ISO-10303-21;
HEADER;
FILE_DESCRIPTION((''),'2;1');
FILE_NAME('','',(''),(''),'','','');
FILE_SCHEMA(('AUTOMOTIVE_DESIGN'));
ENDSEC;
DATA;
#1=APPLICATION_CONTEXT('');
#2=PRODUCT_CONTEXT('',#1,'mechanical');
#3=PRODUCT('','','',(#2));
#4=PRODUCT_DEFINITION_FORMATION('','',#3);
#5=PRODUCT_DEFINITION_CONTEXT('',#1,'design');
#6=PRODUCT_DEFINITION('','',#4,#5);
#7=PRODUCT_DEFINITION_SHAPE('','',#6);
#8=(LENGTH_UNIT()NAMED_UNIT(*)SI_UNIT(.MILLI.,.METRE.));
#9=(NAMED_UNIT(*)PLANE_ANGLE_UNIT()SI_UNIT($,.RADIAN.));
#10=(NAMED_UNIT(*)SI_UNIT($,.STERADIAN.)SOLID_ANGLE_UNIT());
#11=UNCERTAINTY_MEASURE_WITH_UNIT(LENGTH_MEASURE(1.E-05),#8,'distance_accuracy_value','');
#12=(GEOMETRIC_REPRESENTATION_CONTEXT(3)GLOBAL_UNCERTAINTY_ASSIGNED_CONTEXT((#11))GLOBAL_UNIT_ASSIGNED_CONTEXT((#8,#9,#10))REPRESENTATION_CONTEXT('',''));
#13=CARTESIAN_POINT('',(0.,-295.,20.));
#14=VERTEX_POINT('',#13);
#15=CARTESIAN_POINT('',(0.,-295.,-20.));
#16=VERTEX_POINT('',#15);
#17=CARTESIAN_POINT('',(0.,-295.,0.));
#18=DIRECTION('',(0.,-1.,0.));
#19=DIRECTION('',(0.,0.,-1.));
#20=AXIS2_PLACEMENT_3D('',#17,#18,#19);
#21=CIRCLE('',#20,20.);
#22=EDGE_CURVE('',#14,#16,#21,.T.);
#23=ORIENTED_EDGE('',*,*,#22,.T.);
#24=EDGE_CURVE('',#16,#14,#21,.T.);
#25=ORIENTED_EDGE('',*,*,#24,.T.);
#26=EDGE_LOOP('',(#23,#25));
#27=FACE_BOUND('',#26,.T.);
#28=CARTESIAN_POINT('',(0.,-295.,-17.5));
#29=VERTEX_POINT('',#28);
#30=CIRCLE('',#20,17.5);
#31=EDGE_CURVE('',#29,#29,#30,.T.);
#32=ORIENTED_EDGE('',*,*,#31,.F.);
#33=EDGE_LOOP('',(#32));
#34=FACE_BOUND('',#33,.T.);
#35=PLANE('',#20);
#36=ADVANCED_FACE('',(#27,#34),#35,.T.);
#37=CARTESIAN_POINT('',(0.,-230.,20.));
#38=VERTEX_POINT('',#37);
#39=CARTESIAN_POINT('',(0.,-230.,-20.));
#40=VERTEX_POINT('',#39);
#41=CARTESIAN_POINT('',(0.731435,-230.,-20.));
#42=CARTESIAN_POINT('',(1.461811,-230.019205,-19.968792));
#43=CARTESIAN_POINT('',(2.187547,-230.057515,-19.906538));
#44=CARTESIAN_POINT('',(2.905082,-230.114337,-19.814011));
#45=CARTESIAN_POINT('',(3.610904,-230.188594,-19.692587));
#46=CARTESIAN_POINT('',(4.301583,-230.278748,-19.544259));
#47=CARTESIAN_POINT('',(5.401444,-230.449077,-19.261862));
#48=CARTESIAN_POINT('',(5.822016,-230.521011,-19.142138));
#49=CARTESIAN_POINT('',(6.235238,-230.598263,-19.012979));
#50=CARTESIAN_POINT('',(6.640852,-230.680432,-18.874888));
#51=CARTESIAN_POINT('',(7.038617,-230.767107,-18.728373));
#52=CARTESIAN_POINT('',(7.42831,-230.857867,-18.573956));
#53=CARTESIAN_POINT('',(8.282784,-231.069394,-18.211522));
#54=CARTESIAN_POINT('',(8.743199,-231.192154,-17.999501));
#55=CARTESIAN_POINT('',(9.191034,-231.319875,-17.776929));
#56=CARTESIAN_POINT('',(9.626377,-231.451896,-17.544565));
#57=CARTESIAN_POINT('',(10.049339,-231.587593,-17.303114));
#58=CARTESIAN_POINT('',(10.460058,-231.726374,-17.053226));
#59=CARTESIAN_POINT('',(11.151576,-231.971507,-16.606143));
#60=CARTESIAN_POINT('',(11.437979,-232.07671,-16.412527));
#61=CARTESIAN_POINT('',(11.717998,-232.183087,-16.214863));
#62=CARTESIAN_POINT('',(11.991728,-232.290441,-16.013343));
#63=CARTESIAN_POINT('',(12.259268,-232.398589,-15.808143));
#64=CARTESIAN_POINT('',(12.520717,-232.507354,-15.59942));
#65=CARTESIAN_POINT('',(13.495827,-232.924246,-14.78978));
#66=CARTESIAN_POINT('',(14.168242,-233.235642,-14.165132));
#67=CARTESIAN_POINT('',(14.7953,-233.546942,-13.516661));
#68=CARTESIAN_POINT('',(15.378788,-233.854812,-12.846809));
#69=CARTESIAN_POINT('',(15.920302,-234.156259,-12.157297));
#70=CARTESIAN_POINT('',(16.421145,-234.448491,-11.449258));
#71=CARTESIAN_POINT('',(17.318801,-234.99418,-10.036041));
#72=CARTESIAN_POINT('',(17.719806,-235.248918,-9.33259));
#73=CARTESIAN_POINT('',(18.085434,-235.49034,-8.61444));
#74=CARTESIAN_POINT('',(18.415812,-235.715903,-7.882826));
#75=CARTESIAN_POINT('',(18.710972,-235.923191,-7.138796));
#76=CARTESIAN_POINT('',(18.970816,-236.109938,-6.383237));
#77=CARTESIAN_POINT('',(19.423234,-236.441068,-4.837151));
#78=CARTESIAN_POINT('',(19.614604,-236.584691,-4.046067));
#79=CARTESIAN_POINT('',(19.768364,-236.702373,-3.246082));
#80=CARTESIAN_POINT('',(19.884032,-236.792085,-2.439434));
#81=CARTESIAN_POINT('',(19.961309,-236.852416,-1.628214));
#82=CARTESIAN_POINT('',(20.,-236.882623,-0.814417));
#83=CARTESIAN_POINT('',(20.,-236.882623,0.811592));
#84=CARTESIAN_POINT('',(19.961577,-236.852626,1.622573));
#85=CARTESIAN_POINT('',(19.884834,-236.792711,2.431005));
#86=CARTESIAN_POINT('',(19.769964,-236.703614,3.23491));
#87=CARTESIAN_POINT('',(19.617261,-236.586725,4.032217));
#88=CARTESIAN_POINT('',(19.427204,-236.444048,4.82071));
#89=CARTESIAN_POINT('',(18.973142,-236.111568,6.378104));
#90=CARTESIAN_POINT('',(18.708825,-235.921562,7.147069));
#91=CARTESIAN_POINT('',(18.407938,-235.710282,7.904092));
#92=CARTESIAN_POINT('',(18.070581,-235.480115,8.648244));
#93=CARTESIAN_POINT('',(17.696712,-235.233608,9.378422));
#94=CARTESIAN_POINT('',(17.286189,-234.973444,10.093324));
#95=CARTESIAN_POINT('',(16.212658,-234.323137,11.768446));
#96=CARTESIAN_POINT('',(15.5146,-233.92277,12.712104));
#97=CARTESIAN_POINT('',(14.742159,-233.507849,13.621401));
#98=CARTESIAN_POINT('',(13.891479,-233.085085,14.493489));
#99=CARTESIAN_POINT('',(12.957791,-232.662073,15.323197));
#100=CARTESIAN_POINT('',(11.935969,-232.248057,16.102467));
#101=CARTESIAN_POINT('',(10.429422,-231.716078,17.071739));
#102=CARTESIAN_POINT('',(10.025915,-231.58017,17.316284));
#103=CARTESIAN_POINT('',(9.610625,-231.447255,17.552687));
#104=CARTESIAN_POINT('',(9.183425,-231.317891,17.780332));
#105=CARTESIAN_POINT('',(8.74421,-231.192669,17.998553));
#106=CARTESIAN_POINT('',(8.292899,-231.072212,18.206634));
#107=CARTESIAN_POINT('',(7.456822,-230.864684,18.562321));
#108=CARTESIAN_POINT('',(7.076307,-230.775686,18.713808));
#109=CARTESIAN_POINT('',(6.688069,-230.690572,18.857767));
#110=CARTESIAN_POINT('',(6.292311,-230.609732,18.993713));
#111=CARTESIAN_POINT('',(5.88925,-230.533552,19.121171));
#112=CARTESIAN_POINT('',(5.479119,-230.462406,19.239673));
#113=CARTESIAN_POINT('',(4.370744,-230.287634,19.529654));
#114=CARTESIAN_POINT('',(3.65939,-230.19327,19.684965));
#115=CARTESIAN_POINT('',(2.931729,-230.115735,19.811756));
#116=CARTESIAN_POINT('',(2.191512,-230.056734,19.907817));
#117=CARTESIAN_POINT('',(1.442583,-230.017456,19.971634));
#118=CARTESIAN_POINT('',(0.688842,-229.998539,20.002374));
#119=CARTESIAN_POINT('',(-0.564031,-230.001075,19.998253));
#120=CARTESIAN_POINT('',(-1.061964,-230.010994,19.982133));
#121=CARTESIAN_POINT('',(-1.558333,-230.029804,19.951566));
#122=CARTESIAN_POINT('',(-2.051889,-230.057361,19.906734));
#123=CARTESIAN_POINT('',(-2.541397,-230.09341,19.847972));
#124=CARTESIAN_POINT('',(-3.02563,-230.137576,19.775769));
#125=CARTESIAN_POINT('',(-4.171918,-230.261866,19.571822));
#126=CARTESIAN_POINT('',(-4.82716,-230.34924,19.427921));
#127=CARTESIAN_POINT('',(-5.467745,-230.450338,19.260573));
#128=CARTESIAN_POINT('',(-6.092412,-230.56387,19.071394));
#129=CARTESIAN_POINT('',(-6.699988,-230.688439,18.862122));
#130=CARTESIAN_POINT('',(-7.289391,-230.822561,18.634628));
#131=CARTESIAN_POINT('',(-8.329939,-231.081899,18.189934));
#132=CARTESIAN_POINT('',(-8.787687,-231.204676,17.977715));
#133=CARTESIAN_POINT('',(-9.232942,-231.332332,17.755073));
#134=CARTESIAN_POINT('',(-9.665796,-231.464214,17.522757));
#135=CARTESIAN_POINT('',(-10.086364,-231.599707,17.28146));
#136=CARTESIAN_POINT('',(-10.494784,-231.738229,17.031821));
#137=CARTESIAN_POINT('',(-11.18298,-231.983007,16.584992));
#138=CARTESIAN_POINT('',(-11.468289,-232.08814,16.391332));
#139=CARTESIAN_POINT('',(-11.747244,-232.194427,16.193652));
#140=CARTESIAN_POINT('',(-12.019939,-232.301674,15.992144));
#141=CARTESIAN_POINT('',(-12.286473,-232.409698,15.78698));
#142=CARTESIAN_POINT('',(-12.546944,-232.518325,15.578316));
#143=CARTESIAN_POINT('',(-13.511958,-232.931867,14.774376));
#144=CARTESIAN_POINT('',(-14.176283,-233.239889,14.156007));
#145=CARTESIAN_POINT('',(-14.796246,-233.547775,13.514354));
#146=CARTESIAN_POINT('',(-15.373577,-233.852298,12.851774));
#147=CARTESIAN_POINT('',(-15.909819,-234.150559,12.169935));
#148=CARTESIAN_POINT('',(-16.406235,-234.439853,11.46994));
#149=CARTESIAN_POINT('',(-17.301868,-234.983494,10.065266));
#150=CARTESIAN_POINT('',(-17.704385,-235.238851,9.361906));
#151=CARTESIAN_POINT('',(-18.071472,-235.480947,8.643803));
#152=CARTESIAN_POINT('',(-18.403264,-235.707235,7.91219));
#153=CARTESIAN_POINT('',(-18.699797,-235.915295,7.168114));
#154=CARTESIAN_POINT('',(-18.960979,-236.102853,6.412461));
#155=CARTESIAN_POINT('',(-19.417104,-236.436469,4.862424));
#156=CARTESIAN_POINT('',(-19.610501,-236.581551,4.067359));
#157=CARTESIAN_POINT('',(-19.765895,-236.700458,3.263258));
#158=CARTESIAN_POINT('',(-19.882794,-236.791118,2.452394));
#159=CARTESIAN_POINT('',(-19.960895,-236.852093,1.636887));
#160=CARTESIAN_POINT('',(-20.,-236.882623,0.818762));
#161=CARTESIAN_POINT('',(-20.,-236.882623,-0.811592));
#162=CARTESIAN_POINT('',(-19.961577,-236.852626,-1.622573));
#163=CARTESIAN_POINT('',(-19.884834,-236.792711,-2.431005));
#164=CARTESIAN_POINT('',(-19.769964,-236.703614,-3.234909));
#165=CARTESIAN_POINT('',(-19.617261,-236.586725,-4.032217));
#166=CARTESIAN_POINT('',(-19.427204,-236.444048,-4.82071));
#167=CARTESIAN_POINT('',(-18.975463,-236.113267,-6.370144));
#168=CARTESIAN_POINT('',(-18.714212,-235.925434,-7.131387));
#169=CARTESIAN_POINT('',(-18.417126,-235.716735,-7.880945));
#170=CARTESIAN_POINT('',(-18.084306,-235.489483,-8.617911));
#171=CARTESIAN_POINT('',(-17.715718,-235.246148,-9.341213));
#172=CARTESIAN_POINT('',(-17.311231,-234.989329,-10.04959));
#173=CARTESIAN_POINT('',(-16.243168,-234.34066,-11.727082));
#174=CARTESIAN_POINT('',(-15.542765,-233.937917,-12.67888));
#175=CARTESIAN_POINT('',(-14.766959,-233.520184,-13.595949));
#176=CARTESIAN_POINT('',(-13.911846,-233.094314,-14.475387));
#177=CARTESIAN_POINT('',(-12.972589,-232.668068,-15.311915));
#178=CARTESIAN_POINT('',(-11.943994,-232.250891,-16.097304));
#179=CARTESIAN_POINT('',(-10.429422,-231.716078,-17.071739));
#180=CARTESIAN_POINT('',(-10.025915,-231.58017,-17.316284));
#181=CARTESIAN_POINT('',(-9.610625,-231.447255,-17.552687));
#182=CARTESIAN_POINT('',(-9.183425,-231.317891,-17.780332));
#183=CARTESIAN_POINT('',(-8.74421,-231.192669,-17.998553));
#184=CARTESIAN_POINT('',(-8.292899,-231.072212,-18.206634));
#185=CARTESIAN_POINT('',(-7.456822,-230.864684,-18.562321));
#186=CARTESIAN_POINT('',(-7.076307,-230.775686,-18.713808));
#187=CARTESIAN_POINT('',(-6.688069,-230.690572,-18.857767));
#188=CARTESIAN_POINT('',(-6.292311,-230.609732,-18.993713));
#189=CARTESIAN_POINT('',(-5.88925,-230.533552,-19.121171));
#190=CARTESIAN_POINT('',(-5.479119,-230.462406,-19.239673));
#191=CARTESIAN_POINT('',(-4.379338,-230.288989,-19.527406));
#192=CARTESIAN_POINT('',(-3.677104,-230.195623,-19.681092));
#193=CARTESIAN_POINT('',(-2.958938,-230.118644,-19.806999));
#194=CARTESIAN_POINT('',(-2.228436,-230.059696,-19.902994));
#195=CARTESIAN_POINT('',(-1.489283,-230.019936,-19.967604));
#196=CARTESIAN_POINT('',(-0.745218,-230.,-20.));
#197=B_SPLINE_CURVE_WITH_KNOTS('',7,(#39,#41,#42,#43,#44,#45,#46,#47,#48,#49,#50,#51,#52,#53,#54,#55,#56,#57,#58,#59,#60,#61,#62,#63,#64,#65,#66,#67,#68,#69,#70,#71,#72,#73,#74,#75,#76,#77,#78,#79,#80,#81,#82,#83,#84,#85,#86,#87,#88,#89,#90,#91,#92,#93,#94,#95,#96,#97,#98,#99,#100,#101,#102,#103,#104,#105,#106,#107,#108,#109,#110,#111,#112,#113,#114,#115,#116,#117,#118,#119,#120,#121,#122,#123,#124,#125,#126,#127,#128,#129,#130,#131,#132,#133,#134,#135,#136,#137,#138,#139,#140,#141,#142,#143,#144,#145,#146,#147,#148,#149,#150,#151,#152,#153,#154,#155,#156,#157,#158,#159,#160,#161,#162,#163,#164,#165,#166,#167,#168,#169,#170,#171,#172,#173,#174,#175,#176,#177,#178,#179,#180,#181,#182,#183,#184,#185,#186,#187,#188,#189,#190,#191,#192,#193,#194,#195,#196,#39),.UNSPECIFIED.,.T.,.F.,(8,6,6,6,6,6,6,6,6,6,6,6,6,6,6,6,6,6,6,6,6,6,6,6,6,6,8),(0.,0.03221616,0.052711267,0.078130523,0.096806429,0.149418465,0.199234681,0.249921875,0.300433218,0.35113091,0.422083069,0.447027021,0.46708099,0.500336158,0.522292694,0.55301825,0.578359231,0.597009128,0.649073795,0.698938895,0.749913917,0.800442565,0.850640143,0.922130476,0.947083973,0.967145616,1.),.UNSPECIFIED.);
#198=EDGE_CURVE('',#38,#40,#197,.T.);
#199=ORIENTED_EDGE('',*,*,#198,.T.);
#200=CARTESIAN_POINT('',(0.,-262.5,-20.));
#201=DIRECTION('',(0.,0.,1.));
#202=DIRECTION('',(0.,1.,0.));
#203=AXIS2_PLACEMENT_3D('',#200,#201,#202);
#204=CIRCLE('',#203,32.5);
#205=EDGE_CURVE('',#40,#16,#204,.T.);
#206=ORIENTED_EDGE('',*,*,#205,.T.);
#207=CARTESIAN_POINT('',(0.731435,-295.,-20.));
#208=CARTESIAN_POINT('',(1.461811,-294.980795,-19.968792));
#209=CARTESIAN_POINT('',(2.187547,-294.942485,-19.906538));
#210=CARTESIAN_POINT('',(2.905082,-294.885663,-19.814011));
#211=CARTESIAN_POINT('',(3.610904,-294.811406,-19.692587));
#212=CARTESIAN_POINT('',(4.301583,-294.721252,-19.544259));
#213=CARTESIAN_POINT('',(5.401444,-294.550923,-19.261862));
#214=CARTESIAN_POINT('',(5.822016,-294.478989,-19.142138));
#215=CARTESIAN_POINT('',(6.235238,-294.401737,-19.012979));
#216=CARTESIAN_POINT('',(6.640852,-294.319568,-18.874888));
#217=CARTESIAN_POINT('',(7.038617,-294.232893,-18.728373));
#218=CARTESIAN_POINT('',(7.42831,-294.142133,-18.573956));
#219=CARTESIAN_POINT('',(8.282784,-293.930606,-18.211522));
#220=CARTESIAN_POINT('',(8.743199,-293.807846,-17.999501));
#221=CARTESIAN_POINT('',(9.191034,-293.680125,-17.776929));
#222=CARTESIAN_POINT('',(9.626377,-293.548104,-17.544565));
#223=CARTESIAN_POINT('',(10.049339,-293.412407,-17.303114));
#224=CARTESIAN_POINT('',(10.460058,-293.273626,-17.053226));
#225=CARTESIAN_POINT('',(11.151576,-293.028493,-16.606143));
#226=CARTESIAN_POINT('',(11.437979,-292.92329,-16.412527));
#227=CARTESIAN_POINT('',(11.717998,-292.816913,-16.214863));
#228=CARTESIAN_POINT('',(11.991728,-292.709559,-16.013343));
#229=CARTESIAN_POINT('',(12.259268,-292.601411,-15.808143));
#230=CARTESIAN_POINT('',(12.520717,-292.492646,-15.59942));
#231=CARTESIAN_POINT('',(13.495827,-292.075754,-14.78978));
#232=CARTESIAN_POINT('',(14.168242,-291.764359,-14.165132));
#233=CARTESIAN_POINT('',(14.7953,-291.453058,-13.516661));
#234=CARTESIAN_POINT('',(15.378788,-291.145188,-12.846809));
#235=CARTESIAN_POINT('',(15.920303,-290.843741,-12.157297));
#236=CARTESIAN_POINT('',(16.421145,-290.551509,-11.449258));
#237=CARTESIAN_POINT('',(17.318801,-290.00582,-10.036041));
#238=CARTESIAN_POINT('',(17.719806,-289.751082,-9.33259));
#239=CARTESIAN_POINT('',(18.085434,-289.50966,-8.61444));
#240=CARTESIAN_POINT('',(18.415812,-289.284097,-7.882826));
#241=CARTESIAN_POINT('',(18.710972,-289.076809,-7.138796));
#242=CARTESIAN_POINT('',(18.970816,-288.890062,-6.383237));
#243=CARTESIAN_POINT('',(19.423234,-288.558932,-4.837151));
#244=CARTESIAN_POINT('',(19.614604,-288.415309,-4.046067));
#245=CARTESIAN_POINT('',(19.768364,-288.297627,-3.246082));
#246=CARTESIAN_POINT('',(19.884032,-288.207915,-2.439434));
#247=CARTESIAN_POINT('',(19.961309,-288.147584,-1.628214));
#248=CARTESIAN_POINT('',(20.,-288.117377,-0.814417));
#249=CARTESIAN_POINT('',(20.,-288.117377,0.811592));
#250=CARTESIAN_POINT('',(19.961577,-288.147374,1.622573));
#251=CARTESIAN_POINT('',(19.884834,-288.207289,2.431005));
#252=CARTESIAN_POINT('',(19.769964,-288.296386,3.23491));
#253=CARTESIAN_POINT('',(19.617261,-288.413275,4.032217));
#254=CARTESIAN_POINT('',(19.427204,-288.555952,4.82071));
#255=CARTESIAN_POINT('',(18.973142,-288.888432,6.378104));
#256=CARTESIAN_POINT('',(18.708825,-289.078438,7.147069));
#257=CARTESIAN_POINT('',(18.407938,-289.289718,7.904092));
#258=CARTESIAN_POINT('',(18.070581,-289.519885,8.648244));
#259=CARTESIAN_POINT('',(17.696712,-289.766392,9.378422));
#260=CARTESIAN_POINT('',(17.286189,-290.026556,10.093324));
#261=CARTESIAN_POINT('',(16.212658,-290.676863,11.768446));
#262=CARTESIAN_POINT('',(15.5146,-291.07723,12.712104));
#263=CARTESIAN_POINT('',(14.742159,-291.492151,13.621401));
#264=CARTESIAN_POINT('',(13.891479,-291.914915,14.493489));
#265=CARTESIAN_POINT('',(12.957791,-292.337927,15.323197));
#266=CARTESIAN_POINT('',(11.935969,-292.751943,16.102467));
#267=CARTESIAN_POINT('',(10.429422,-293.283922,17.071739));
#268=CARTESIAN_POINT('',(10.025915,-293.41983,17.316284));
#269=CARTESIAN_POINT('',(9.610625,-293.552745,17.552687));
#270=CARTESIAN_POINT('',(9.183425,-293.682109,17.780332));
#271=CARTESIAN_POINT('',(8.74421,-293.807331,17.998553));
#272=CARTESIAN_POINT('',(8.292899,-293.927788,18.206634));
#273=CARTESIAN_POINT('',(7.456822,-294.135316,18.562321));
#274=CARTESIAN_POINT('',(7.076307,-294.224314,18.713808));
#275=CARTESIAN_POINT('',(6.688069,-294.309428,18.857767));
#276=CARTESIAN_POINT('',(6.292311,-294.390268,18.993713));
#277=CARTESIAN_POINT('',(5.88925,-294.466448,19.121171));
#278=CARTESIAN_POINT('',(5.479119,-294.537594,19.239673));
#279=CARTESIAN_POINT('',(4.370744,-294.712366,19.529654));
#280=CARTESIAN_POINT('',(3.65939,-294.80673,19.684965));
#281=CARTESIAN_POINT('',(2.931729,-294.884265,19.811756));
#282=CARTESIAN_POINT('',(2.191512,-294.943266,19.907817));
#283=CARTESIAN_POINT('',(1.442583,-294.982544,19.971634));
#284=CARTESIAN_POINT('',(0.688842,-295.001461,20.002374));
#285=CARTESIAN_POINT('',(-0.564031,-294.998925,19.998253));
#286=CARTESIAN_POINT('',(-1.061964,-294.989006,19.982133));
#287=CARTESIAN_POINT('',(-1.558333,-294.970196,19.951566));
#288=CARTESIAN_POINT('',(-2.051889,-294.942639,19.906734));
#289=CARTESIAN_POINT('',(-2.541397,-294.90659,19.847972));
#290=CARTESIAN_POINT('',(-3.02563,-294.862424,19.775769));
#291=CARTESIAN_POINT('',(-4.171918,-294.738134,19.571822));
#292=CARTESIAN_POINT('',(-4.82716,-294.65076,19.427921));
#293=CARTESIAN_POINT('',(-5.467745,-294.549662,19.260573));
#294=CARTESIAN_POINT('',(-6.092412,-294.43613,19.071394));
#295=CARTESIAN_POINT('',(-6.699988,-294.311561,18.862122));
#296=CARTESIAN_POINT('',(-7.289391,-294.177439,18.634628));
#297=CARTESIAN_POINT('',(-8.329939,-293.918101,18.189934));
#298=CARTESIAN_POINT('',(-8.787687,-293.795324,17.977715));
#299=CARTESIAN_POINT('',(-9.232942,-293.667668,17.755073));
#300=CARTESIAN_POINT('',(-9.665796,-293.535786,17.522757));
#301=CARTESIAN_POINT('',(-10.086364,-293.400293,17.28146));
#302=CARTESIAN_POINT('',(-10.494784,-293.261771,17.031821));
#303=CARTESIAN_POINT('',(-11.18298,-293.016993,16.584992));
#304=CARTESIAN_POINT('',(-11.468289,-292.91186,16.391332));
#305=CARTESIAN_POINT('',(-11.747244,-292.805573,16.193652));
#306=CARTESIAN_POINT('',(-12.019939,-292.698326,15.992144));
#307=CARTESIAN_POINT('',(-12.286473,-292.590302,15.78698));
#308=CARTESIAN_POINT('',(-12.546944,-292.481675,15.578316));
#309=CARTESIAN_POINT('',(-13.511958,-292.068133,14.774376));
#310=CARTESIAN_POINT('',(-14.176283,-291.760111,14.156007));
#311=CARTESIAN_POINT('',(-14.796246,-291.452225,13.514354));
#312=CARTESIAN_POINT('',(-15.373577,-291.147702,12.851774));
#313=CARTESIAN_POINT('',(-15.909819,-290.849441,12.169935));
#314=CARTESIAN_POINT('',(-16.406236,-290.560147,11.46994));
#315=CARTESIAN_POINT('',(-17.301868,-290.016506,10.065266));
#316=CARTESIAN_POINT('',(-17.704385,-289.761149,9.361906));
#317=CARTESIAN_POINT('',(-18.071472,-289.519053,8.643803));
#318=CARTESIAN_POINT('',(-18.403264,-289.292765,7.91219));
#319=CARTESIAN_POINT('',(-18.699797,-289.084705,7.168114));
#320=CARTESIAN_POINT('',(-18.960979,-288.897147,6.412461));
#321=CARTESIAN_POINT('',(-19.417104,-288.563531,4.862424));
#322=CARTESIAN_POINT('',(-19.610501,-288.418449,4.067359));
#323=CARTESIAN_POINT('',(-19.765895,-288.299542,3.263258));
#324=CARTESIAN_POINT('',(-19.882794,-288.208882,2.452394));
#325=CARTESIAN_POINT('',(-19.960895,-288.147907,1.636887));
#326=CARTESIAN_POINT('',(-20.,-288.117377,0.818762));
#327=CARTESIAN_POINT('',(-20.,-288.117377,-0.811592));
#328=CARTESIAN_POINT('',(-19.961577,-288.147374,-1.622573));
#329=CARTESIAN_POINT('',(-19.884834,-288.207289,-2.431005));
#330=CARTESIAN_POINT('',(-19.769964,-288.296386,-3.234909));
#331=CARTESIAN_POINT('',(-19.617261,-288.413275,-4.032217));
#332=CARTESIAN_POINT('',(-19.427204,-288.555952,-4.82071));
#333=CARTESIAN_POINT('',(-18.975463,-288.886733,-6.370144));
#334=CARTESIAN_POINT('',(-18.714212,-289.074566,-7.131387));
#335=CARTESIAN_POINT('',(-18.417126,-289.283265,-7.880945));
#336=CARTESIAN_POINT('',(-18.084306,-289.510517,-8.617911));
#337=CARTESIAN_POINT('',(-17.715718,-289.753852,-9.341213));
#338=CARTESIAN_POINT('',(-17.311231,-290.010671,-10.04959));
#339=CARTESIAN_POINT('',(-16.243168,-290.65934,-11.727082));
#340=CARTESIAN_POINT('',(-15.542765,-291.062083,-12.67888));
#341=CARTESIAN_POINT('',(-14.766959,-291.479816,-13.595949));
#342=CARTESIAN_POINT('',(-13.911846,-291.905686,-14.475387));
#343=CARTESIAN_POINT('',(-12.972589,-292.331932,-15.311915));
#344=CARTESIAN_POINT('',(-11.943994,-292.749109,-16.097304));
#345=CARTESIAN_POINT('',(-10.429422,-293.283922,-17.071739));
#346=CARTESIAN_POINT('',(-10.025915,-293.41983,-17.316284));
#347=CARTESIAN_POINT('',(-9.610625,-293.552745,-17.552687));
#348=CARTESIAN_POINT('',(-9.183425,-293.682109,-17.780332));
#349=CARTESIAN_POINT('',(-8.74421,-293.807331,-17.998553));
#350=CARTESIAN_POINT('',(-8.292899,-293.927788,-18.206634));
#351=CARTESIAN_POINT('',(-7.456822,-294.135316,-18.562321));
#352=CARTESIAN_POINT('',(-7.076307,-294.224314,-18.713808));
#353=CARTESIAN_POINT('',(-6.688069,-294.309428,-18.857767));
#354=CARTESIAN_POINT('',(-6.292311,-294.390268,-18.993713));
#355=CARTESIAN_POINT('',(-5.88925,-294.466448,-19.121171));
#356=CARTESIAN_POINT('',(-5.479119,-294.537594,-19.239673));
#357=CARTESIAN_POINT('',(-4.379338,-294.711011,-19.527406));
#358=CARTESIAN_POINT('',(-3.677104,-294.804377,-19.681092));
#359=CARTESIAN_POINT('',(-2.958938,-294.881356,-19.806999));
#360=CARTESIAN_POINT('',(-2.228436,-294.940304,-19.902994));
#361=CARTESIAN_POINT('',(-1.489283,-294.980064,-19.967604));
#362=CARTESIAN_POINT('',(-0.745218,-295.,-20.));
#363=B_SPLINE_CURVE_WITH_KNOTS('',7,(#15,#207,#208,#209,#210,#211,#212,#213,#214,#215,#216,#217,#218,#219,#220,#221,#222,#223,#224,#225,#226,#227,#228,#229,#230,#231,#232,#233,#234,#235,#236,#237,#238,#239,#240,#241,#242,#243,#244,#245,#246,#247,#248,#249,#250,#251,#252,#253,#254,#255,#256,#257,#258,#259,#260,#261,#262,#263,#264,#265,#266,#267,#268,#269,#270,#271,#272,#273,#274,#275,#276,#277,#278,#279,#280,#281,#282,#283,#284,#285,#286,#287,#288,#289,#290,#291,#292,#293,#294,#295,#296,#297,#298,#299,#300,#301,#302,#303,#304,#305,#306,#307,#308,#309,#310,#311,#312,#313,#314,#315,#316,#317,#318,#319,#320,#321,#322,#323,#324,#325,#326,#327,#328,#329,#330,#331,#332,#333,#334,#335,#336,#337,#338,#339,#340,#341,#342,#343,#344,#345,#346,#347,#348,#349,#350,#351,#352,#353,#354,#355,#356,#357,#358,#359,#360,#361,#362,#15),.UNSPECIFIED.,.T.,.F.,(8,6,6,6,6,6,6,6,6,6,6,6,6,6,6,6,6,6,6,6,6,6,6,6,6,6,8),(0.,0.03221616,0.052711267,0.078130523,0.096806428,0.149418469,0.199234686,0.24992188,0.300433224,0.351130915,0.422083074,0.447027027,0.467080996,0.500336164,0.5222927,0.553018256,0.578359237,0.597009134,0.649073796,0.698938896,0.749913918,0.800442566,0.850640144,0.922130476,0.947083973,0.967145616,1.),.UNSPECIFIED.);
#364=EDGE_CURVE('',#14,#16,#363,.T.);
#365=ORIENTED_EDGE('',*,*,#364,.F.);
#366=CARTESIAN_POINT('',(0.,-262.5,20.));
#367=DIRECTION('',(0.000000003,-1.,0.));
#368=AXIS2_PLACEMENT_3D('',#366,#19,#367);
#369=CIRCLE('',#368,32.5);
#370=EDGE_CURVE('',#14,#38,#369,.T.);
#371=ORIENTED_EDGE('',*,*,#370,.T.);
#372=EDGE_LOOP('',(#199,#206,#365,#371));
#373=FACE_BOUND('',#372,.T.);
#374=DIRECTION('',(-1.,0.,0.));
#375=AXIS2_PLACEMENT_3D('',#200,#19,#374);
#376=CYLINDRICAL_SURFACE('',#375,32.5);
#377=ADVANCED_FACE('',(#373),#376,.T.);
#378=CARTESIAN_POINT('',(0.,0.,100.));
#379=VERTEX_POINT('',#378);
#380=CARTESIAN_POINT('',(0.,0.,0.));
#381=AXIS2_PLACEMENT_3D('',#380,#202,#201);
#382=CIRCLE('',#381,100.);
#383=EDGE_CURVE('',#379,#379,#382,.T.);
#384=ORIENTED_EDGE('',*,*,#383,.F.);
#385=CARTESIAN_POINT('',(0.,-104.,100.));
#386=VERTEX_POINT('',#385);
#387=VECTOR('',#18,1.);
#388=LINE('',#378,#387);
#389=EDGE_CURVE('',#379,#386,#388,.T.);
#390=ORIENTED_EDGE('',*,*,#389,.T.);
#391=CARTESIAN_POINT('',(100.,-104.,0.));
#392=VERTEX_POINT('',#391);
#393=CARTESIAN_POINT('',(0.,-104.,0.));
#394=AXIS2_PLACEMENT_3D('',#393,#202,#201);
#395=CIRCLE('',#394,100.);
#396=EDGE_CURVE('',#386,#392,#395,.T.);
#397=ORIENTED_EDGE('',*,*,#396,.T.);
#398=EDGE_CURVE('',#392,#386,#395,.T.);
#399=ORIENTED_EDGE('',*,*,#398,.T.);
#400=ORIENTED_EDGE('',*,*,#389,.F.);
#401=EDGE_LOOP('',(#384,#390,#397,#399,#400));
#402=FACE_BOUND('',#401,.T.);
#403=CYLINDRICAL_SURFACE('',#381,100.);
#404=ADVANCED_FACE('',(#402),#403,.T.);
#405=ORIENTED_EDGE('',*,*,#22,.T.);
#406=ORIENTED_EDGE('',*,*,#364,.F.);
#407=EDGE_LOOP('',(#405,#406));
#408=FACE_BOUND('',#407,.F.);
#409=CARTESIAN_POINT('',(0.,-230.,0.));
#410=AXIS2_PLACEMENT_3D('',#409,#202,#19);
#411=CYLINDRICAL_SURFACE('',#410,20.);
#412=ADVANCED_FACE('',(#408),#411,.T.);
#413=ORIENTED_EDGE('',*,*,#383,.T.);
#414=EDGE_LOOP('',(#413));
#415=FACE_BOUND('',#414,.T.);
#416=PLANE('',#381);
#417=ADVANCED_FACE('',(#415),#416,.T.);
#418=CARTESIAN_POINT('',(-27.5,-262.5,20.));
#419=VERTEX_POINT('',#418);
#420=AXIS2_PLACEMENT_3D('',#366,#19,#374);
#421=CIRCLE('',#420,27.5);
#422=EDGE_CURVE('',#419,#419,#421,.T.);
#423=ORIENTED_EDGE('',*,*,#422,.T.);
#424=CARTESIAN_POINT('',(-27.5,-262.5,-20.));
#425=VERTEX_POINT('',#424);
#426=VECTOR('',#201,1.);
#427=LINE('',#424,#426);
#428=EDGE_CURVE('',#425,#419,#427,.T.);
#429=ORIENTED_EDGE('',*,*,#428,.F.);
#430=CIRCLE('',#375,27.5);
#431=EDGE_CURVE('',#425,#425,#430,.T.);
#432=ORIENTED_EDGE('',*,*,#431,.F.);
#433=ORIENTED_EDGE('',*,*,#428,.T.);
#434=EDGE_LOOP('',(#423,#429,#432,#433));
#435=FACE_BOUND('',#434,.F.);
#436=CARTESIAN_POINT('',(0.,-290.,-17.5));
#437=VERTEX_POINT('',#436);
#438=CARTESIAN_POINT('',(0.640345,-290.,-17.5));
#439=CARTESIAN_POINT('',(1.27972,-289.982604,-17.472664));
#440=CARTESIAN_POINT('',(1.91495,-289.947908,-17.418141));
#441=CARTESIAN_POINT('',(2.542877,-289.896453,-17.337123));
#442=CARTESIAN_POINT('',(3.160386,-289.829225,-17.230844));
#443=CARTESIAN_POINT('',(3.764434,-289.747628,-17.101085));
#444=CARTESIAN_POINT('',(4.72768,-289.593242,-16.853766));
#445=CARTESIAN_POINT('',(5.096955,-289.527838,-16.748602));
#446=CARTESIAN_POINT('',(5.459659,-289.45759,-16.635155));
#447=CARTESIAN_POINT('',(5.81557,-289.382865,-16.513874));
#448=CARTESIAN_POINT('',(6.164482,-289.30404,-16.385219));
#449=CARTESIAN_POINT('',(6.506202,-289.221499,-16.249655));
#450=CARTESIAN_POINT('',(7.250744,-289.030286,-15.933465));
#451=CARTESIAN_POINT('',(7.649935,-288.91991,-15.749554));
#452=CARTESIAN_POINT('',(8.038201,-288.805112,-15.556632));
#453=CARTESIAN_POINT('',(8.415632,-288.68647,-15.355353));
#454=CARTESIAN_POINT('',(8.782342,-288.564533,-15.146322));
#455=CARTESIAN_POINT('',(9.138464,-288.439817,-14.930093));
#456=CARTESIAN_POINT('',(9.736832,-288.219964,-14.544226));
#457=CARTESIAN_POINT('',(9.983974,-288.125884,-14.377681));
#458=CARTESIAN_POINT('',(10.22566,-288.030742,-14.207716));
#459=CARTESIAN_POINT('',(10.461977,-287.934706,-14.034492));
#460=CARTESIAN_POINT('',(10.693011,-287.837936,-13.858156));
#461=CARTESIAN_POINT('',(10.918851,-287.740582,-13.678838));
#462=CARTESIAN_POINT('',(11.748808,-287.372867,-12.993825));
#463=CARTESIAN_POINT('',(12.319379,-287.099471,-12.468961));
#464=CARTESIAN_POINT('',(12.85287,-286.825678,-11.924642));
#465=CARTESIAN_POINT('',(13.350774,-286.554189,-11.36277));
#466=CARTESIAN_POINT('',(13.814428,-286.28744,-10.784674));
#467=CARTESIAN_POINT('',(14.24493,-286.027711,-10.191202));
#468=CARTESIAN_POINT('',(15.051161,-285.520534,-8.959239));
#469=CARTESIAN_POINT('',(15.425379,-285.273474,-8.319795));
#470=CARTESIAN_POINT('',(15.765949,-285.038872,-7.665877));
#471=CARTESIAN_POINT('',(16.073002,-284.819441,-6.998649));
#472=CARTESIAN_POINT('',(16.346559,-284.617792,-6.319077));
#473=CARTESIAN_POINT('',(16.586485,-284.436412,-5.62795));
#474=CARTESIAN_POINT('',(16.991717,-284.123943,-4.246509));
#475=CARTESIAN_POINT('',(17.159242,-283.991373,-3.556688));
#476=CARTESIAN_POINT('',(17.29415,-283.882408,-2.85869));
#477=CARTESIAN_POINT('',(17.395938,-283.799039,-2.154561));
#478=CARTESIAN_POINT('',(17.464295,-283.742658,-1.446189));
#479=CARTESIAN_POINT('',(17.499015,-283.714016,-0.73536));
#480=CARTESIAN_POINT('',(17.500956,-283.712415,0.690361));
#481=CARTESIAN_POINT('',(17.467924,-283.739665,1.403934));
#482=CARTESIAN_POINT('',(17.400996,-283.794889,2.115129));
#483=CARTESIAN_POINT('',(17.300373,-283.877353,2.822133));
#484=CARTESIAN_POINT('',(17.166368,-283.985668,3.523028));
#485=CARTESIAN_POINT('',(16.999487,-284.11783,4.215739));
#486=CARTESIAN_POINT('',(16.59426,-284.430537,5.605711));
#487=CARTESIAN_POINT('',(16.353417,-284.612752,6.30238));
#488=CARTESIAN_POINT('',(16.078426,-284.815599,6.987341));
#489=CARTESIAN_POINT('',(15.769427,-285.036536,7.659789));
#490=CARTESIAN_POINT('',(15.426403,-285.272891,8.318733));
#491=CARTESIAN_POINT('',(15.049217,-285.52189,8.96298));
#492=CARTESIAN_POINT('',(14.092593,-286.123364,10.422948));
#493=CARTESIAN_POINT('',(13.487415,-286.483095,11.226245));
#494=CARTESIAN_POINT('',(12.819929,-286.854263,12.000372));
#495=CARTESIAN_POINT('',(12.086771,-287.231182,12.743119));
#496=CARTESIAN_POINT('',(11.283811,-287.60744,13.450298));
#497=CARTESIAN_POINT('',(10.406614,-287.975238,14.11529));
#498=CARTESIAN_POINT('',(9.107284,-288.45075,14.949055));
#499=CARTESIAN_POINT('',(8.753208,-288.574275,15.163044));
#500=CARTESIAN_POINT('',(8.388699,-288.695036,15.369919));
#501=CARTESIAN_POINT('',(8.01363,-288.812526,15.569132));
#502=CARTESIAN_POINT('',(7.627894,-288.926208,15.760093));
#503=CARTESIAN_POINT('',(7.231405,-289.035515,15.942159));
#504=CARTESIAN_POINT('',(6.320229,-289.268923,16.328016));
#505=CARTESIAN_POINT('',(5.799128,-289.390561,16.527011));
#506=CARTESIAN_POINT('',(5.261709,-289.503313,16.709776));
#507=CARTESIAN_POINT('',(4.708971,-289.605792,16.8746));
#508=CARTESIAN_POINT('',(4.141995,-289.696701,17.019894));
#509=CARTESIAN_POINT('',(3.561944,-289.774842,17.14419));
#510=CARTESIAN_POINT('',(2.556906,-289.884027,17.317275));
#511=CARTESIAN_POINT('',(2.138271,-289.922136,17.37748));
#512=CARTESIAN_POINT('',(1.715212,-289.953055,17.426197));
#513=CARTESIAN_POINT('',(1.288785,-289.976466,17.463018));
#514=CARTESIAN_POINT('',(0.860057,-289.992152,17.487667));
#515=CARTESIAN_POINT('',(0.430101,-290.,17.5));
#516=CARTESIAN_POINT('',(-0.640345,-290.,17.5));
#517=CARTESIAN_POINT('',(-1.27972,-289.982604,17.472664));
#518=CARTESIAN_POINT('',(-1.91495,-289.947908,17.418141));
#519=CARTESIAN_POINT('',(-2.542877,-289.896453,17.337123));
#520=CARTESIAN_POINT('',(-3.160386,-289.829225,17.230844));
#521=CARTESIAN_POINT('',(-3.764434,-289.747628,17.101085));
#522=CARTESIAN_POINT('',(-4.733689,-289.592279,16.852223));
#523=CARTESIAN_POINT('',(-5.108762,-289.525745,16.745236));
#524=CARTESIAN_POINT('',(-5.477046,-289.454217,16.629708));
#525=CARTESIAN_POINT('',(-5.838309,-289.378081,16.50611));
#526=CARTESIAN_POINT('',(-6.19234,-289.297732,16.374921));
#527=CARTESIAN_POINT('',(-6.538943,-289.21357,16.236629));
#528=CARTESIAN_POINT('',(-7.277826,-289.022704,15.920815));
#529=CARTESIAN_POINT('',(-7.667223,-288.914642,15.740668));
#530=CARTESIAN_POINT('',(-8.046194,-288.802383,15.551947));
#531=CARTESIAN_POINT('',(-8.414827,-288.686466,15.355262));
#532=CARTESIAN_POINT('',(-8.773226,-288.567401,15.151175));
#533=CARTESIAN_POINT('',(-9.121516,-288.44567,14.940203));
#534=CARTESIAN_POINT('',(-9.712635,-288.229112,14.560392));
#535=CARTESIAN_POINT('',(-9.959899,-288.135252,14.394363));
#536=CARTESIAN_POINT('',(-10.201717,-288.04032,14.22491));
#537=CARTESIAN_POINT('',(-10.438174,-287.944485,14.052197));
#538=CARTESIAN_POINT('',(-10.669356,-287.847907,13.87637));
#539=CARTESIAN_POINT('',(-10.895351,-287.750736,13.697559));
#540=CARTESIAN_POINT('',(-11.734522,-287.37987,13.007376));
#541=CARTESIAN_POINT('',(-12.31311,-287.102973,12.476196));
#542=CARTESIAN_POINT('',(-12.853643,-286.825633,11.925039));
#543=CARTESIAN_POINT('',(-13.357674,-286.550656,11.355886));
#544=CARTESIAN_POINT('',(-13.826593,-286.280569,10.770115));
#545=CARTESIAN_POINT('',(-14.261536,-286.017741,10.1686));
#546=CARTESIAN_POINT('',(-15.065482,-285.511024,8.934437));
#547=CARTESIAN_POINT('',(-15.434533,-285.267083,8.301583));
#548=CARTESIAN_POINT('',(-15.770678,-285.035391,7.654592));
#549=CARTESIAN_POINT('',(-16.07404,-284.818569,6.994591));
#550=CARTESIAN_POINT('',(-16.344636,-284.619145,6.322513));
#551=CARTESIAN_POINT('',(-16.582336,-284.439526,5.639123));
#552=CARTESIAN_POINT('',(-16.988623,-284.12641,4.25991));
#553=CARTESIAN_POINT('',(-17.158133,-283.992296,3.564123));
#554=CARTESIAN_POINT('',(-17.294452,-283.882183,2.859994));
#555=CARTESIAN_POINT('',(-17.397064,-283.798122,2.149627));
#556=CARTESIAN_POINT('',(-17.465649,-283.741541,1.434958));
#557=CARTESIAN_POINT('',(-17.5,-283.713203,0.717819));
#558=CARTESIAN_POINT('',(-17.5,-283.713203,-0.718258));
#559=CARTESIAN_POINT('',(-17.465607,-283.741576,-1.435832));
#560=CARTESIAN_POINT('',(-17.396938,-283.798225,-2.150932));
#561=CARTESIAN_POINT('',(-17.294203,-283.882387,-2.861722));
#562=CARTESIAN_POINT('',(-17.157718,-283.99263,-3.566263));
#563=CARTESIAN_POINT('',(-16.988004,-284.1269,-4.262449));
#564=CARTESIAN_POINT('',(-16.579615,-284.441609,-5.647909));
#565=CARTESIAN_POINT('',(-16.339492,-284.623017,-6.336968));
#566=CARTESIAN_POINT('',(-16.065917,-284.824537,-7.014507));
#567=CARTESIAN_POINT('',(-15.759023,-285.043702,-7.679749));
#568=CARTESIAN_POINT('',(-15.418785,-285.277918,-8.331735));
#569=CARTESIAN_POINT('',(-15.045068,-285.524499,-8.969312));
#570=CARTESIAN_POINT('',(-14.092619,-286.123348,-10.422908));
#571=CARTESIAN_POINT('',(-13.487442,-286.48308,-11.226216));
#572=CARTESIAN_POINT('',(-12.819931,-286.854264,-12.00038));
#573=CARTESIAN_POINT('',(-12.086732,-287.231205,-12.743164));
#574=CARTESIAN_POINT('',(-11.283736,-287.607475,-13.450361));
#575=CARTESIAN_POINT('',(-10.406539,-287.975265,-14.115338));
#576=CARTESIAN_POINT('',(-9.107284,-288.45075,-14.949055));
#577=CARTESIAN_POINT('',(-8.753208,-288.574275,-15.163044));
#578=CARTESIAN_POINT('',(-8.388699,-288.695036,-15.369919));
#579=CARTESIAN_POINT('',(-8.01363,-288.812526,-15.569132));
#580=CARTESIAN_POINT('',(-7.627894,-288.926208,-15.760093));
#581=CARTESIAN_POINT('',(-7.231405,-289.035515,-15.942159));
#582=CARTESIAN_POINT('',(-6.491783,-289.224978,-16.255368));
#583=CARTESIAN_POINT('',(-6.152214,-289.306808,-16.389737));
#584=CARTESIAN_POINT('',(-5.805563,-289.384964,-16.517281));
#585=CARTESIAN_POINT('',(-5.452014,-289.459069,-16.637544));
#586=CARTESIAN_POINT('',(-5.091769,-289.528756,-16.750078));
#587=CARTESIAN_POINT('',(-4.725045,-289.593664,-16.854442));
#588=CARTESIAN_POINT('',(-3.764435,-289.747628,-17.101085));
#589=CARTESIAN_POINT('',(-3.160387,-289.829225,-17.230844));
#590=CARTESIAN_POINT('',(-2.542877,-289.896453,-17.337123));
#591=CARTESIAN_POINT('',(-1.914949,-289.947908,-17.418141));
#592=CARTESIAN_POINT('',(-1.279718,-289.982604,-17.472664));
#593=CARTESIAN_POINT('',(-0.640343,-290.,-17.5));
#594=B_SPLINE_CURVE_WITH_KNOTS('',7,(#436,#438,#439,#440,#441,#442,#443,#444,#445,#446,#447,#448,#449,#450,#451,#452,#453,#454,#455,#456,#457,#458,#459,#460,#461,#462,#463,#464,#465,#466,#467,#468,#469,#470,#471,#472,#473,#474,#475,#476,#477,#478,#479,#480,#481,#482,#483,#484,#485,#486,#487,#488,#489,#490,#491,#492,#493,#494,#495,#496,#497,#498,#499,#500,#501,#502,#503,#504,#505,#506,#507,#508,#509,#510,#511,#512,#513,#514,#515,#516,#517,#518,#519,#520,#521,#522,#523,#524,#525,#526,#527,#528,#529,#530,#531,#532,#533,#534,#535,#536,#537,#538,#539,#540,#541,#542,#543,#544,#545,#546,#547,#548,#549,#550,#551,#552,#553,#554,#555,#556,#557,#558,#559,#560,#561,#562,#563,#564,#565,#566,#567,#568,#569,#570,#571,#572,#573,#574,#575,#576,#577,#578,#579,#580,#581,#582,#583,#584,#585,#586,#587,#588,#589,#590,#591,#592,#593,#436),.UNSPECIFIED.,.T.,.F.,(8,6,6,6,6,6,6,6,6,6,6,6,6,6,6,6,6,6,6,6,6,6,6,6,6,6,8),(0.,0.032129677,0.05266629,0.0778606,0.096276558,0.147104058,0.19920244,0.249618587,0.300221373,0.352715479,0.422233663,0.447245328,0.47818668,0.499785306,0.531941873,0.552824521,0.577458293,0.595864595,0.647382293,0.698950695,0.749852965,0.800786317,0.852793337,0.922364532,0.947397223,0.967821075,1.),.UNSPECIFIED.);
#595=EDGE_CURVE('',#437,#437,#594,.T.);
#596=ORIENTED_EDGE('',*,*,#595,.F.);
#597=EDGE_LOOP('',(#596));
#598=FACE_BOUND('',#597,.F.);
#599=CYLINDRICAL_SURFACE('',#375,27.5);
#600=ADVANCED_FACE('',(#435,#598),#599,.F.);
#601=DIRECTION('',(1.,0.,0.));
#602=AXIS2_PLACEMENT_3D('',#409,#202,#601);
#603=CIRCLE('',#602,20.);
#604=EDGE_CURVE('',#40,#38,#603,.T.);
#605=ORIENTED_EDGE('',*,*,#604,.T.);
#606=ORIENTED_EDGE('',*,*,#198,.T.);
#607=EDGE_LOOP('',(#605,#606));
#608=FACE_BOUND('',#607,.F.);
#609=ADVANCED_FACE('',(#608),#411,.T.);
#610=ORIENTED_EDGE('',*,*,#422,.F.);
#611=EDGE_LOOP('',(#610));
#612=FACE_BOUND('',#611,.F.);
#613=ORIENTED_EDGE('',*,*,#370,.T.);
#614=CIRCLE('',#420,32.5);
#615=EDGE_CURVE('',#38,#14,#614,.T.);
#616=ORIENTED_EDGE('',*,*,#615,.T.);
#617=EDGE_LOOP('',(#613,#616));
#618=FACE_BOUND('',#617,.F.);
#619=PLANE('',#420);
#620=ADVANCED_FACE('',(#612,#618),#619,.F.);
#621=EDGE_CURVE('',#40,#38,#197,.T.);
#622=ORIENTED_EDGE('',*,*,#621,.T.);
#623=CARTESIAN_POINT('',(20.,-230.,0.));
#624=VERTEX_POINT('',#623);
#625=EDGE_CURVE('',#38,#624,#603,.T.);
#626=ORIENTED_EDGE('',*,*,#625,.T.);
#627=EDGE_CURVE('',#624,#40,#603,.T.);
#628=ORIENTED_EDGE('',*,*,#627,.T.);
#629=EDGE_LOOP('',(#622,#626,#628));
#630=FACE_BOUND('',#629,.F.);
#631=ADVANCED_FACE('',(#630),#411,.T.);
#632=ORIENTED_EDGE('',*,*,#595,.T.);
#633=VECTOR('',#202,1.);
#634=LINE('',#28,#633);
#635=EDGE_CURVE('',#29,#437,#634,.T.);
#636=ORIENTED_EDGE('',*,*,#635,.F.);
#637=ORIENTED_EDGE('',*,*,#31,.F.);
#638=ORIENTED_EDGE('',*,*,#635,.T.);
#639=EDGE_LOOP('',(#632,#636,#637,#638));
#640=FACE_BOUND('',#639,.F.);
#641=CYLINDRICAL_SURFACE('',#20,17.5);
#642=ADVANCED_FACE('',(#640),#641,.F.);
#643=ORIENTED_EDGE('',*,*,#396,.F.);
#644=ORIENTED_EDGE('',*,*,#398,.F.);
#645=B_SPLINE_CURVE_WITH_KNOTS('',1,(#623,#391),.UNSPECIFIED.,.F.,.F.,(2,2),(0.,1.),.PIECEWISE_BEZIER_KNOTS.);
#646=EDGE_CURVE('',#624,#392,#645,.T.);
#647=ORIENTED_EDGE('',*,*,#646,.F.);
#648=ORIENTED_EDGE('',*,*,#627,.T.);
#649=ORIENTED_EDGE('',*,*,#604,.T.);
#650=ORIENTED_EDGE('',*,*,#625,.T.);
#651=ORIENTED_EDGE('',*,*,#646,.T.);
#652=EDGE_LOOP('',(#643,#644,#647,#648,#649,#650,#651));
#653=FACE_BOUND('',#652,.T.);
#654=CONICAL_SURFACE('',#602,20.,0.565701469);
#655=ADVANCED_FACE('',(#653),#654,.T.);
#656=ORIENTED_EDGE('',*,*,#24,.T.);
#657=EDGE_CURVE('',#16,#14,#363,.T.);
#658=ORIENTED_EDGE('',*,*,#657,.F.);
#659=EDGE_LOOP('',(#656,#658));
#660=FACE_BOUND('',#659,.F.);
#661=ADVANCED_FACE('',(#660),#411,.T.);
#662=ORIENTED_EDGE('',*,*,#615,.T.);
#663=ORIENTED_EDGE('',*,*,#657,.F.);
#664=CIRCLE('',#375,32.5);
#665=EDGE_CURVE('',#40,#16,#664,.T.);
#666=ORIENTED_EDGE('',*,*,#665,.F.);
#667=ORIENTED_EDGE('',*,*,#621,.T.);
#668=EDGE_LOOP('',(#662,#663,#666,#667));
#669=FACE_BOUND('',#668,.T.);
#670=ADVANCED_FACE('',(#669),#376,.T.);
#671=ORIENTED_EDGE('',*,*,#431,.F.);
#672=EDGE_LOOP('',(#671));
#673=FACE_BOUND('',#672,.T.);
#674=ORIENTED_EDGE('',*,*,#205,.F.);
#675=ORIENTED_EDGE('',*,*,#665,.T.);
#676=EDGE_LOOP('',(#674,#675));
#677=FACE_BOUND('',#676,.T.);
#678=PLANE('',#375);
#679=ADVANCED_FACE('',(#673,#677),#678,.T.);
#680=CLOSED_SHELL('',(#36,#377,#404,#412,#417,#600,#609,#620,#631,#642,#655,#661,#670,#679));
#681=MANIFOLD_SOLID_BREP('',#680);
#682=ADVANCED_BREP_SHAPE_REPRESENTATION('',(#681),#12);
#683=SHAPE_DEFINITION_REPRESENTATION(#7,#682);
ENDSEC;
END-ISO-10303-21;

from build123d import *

# Parameters (mm, degrees)
CROQUIS1_R              = 100
SALIENTE_EXTRUIR1_DEPTH = 104
CROQUIS3_R              = 20
CROQUIS2_R              = 100
CROQUIS4_R              = 20
SALIENTE_EXTRUIR2_DEPTH = 65
CROQUIS5_R              = 32.5
SALIENTE_EXTRUIR3_DEPTH = 40
CROQUIS6_R              = 27.5
CORTAR_EXTRUIR1_DEPTH   = 334.803834764
CROQUIS7_R              = 17.5
CORTAR_EXTRUIR2_DEPTH   = 24


with BuildPart() as part:
    # Croquis1 → Saliente-Extruir1 (new body)
    with BuildSketch(Plane(origin=(0, 0, 0), x_dir=(1, 0, 0), z_dir=(0, 1, 0))):
        with Locations(Location((0, 0, 0), (0, 0, 270))):
            Circle(CROQUIS1_R)
    extrude(amount=-SALIENTE_EXTRUIR1_DEPTH)

    # Croquis3 → Recubrir1 section 0
    with BuildSketch(Plane(origin=(0, -230, 0), x_dir=(1, 0, 0), z_dir=(0, 1, 0))):
        Circle(CROQUIS3_R)
    # Croquis2 → Recubrir1 section 1
    with BuildSketch(Plane.XZ.offset(104)):
        Circle(CROQUIS2_R)
    loft()

    # Croquis4 → Saliente-Extruir2 (add)
    with BuildSketch(Plane.XZ.offset(230)):
        with Locations(Location((0, 0, 0), (0, 0, 270))):
            Circle(CROQUIS4_R)
    extrude(amount=SALIENTE_EXTRUIR2_DEPTH)

    # Croquis5 → Saliente-Extruir3 (add)
    with BuildSketch(Plane(origin=(0, 0, -20), x_dir=(-1, 0, 0), z_dir=(0, 0, -1))):
        with Locations((0, -262.5)):
            Circle(CROQUIS5_R)
    extrude(amount=-SALIENTE_EXTRUIR3_DEPTH)

    # Croquis6 → Cortar-Extruir1 (cut, through all)
    with BuildSketch(Plane(origin=(0, 0, -20), x_dir=(-1, 0, 0), z_dir=(0, 0, -1))):
        with Locations((0, -262.5)):
            Circle(CROQUIS6_R)
    extrude(amount=-CORTAR_EXTRUIR1_DEPTH, mode=Mode.SUBTRACT)

    # Croquis7 → Cortar-Extruir2 (cut)
    with BuildSketch(Plane.XZ.offset(295)):
        with Locations(Location((0, 0, 0), (0, 0, 270))):
            Circle(CROQUIS7_R)
    extrude(amount=-CORTAR_EXTRUIR2_DEPTH, mode=Mode.SUBTRACT)


solid = part.part
